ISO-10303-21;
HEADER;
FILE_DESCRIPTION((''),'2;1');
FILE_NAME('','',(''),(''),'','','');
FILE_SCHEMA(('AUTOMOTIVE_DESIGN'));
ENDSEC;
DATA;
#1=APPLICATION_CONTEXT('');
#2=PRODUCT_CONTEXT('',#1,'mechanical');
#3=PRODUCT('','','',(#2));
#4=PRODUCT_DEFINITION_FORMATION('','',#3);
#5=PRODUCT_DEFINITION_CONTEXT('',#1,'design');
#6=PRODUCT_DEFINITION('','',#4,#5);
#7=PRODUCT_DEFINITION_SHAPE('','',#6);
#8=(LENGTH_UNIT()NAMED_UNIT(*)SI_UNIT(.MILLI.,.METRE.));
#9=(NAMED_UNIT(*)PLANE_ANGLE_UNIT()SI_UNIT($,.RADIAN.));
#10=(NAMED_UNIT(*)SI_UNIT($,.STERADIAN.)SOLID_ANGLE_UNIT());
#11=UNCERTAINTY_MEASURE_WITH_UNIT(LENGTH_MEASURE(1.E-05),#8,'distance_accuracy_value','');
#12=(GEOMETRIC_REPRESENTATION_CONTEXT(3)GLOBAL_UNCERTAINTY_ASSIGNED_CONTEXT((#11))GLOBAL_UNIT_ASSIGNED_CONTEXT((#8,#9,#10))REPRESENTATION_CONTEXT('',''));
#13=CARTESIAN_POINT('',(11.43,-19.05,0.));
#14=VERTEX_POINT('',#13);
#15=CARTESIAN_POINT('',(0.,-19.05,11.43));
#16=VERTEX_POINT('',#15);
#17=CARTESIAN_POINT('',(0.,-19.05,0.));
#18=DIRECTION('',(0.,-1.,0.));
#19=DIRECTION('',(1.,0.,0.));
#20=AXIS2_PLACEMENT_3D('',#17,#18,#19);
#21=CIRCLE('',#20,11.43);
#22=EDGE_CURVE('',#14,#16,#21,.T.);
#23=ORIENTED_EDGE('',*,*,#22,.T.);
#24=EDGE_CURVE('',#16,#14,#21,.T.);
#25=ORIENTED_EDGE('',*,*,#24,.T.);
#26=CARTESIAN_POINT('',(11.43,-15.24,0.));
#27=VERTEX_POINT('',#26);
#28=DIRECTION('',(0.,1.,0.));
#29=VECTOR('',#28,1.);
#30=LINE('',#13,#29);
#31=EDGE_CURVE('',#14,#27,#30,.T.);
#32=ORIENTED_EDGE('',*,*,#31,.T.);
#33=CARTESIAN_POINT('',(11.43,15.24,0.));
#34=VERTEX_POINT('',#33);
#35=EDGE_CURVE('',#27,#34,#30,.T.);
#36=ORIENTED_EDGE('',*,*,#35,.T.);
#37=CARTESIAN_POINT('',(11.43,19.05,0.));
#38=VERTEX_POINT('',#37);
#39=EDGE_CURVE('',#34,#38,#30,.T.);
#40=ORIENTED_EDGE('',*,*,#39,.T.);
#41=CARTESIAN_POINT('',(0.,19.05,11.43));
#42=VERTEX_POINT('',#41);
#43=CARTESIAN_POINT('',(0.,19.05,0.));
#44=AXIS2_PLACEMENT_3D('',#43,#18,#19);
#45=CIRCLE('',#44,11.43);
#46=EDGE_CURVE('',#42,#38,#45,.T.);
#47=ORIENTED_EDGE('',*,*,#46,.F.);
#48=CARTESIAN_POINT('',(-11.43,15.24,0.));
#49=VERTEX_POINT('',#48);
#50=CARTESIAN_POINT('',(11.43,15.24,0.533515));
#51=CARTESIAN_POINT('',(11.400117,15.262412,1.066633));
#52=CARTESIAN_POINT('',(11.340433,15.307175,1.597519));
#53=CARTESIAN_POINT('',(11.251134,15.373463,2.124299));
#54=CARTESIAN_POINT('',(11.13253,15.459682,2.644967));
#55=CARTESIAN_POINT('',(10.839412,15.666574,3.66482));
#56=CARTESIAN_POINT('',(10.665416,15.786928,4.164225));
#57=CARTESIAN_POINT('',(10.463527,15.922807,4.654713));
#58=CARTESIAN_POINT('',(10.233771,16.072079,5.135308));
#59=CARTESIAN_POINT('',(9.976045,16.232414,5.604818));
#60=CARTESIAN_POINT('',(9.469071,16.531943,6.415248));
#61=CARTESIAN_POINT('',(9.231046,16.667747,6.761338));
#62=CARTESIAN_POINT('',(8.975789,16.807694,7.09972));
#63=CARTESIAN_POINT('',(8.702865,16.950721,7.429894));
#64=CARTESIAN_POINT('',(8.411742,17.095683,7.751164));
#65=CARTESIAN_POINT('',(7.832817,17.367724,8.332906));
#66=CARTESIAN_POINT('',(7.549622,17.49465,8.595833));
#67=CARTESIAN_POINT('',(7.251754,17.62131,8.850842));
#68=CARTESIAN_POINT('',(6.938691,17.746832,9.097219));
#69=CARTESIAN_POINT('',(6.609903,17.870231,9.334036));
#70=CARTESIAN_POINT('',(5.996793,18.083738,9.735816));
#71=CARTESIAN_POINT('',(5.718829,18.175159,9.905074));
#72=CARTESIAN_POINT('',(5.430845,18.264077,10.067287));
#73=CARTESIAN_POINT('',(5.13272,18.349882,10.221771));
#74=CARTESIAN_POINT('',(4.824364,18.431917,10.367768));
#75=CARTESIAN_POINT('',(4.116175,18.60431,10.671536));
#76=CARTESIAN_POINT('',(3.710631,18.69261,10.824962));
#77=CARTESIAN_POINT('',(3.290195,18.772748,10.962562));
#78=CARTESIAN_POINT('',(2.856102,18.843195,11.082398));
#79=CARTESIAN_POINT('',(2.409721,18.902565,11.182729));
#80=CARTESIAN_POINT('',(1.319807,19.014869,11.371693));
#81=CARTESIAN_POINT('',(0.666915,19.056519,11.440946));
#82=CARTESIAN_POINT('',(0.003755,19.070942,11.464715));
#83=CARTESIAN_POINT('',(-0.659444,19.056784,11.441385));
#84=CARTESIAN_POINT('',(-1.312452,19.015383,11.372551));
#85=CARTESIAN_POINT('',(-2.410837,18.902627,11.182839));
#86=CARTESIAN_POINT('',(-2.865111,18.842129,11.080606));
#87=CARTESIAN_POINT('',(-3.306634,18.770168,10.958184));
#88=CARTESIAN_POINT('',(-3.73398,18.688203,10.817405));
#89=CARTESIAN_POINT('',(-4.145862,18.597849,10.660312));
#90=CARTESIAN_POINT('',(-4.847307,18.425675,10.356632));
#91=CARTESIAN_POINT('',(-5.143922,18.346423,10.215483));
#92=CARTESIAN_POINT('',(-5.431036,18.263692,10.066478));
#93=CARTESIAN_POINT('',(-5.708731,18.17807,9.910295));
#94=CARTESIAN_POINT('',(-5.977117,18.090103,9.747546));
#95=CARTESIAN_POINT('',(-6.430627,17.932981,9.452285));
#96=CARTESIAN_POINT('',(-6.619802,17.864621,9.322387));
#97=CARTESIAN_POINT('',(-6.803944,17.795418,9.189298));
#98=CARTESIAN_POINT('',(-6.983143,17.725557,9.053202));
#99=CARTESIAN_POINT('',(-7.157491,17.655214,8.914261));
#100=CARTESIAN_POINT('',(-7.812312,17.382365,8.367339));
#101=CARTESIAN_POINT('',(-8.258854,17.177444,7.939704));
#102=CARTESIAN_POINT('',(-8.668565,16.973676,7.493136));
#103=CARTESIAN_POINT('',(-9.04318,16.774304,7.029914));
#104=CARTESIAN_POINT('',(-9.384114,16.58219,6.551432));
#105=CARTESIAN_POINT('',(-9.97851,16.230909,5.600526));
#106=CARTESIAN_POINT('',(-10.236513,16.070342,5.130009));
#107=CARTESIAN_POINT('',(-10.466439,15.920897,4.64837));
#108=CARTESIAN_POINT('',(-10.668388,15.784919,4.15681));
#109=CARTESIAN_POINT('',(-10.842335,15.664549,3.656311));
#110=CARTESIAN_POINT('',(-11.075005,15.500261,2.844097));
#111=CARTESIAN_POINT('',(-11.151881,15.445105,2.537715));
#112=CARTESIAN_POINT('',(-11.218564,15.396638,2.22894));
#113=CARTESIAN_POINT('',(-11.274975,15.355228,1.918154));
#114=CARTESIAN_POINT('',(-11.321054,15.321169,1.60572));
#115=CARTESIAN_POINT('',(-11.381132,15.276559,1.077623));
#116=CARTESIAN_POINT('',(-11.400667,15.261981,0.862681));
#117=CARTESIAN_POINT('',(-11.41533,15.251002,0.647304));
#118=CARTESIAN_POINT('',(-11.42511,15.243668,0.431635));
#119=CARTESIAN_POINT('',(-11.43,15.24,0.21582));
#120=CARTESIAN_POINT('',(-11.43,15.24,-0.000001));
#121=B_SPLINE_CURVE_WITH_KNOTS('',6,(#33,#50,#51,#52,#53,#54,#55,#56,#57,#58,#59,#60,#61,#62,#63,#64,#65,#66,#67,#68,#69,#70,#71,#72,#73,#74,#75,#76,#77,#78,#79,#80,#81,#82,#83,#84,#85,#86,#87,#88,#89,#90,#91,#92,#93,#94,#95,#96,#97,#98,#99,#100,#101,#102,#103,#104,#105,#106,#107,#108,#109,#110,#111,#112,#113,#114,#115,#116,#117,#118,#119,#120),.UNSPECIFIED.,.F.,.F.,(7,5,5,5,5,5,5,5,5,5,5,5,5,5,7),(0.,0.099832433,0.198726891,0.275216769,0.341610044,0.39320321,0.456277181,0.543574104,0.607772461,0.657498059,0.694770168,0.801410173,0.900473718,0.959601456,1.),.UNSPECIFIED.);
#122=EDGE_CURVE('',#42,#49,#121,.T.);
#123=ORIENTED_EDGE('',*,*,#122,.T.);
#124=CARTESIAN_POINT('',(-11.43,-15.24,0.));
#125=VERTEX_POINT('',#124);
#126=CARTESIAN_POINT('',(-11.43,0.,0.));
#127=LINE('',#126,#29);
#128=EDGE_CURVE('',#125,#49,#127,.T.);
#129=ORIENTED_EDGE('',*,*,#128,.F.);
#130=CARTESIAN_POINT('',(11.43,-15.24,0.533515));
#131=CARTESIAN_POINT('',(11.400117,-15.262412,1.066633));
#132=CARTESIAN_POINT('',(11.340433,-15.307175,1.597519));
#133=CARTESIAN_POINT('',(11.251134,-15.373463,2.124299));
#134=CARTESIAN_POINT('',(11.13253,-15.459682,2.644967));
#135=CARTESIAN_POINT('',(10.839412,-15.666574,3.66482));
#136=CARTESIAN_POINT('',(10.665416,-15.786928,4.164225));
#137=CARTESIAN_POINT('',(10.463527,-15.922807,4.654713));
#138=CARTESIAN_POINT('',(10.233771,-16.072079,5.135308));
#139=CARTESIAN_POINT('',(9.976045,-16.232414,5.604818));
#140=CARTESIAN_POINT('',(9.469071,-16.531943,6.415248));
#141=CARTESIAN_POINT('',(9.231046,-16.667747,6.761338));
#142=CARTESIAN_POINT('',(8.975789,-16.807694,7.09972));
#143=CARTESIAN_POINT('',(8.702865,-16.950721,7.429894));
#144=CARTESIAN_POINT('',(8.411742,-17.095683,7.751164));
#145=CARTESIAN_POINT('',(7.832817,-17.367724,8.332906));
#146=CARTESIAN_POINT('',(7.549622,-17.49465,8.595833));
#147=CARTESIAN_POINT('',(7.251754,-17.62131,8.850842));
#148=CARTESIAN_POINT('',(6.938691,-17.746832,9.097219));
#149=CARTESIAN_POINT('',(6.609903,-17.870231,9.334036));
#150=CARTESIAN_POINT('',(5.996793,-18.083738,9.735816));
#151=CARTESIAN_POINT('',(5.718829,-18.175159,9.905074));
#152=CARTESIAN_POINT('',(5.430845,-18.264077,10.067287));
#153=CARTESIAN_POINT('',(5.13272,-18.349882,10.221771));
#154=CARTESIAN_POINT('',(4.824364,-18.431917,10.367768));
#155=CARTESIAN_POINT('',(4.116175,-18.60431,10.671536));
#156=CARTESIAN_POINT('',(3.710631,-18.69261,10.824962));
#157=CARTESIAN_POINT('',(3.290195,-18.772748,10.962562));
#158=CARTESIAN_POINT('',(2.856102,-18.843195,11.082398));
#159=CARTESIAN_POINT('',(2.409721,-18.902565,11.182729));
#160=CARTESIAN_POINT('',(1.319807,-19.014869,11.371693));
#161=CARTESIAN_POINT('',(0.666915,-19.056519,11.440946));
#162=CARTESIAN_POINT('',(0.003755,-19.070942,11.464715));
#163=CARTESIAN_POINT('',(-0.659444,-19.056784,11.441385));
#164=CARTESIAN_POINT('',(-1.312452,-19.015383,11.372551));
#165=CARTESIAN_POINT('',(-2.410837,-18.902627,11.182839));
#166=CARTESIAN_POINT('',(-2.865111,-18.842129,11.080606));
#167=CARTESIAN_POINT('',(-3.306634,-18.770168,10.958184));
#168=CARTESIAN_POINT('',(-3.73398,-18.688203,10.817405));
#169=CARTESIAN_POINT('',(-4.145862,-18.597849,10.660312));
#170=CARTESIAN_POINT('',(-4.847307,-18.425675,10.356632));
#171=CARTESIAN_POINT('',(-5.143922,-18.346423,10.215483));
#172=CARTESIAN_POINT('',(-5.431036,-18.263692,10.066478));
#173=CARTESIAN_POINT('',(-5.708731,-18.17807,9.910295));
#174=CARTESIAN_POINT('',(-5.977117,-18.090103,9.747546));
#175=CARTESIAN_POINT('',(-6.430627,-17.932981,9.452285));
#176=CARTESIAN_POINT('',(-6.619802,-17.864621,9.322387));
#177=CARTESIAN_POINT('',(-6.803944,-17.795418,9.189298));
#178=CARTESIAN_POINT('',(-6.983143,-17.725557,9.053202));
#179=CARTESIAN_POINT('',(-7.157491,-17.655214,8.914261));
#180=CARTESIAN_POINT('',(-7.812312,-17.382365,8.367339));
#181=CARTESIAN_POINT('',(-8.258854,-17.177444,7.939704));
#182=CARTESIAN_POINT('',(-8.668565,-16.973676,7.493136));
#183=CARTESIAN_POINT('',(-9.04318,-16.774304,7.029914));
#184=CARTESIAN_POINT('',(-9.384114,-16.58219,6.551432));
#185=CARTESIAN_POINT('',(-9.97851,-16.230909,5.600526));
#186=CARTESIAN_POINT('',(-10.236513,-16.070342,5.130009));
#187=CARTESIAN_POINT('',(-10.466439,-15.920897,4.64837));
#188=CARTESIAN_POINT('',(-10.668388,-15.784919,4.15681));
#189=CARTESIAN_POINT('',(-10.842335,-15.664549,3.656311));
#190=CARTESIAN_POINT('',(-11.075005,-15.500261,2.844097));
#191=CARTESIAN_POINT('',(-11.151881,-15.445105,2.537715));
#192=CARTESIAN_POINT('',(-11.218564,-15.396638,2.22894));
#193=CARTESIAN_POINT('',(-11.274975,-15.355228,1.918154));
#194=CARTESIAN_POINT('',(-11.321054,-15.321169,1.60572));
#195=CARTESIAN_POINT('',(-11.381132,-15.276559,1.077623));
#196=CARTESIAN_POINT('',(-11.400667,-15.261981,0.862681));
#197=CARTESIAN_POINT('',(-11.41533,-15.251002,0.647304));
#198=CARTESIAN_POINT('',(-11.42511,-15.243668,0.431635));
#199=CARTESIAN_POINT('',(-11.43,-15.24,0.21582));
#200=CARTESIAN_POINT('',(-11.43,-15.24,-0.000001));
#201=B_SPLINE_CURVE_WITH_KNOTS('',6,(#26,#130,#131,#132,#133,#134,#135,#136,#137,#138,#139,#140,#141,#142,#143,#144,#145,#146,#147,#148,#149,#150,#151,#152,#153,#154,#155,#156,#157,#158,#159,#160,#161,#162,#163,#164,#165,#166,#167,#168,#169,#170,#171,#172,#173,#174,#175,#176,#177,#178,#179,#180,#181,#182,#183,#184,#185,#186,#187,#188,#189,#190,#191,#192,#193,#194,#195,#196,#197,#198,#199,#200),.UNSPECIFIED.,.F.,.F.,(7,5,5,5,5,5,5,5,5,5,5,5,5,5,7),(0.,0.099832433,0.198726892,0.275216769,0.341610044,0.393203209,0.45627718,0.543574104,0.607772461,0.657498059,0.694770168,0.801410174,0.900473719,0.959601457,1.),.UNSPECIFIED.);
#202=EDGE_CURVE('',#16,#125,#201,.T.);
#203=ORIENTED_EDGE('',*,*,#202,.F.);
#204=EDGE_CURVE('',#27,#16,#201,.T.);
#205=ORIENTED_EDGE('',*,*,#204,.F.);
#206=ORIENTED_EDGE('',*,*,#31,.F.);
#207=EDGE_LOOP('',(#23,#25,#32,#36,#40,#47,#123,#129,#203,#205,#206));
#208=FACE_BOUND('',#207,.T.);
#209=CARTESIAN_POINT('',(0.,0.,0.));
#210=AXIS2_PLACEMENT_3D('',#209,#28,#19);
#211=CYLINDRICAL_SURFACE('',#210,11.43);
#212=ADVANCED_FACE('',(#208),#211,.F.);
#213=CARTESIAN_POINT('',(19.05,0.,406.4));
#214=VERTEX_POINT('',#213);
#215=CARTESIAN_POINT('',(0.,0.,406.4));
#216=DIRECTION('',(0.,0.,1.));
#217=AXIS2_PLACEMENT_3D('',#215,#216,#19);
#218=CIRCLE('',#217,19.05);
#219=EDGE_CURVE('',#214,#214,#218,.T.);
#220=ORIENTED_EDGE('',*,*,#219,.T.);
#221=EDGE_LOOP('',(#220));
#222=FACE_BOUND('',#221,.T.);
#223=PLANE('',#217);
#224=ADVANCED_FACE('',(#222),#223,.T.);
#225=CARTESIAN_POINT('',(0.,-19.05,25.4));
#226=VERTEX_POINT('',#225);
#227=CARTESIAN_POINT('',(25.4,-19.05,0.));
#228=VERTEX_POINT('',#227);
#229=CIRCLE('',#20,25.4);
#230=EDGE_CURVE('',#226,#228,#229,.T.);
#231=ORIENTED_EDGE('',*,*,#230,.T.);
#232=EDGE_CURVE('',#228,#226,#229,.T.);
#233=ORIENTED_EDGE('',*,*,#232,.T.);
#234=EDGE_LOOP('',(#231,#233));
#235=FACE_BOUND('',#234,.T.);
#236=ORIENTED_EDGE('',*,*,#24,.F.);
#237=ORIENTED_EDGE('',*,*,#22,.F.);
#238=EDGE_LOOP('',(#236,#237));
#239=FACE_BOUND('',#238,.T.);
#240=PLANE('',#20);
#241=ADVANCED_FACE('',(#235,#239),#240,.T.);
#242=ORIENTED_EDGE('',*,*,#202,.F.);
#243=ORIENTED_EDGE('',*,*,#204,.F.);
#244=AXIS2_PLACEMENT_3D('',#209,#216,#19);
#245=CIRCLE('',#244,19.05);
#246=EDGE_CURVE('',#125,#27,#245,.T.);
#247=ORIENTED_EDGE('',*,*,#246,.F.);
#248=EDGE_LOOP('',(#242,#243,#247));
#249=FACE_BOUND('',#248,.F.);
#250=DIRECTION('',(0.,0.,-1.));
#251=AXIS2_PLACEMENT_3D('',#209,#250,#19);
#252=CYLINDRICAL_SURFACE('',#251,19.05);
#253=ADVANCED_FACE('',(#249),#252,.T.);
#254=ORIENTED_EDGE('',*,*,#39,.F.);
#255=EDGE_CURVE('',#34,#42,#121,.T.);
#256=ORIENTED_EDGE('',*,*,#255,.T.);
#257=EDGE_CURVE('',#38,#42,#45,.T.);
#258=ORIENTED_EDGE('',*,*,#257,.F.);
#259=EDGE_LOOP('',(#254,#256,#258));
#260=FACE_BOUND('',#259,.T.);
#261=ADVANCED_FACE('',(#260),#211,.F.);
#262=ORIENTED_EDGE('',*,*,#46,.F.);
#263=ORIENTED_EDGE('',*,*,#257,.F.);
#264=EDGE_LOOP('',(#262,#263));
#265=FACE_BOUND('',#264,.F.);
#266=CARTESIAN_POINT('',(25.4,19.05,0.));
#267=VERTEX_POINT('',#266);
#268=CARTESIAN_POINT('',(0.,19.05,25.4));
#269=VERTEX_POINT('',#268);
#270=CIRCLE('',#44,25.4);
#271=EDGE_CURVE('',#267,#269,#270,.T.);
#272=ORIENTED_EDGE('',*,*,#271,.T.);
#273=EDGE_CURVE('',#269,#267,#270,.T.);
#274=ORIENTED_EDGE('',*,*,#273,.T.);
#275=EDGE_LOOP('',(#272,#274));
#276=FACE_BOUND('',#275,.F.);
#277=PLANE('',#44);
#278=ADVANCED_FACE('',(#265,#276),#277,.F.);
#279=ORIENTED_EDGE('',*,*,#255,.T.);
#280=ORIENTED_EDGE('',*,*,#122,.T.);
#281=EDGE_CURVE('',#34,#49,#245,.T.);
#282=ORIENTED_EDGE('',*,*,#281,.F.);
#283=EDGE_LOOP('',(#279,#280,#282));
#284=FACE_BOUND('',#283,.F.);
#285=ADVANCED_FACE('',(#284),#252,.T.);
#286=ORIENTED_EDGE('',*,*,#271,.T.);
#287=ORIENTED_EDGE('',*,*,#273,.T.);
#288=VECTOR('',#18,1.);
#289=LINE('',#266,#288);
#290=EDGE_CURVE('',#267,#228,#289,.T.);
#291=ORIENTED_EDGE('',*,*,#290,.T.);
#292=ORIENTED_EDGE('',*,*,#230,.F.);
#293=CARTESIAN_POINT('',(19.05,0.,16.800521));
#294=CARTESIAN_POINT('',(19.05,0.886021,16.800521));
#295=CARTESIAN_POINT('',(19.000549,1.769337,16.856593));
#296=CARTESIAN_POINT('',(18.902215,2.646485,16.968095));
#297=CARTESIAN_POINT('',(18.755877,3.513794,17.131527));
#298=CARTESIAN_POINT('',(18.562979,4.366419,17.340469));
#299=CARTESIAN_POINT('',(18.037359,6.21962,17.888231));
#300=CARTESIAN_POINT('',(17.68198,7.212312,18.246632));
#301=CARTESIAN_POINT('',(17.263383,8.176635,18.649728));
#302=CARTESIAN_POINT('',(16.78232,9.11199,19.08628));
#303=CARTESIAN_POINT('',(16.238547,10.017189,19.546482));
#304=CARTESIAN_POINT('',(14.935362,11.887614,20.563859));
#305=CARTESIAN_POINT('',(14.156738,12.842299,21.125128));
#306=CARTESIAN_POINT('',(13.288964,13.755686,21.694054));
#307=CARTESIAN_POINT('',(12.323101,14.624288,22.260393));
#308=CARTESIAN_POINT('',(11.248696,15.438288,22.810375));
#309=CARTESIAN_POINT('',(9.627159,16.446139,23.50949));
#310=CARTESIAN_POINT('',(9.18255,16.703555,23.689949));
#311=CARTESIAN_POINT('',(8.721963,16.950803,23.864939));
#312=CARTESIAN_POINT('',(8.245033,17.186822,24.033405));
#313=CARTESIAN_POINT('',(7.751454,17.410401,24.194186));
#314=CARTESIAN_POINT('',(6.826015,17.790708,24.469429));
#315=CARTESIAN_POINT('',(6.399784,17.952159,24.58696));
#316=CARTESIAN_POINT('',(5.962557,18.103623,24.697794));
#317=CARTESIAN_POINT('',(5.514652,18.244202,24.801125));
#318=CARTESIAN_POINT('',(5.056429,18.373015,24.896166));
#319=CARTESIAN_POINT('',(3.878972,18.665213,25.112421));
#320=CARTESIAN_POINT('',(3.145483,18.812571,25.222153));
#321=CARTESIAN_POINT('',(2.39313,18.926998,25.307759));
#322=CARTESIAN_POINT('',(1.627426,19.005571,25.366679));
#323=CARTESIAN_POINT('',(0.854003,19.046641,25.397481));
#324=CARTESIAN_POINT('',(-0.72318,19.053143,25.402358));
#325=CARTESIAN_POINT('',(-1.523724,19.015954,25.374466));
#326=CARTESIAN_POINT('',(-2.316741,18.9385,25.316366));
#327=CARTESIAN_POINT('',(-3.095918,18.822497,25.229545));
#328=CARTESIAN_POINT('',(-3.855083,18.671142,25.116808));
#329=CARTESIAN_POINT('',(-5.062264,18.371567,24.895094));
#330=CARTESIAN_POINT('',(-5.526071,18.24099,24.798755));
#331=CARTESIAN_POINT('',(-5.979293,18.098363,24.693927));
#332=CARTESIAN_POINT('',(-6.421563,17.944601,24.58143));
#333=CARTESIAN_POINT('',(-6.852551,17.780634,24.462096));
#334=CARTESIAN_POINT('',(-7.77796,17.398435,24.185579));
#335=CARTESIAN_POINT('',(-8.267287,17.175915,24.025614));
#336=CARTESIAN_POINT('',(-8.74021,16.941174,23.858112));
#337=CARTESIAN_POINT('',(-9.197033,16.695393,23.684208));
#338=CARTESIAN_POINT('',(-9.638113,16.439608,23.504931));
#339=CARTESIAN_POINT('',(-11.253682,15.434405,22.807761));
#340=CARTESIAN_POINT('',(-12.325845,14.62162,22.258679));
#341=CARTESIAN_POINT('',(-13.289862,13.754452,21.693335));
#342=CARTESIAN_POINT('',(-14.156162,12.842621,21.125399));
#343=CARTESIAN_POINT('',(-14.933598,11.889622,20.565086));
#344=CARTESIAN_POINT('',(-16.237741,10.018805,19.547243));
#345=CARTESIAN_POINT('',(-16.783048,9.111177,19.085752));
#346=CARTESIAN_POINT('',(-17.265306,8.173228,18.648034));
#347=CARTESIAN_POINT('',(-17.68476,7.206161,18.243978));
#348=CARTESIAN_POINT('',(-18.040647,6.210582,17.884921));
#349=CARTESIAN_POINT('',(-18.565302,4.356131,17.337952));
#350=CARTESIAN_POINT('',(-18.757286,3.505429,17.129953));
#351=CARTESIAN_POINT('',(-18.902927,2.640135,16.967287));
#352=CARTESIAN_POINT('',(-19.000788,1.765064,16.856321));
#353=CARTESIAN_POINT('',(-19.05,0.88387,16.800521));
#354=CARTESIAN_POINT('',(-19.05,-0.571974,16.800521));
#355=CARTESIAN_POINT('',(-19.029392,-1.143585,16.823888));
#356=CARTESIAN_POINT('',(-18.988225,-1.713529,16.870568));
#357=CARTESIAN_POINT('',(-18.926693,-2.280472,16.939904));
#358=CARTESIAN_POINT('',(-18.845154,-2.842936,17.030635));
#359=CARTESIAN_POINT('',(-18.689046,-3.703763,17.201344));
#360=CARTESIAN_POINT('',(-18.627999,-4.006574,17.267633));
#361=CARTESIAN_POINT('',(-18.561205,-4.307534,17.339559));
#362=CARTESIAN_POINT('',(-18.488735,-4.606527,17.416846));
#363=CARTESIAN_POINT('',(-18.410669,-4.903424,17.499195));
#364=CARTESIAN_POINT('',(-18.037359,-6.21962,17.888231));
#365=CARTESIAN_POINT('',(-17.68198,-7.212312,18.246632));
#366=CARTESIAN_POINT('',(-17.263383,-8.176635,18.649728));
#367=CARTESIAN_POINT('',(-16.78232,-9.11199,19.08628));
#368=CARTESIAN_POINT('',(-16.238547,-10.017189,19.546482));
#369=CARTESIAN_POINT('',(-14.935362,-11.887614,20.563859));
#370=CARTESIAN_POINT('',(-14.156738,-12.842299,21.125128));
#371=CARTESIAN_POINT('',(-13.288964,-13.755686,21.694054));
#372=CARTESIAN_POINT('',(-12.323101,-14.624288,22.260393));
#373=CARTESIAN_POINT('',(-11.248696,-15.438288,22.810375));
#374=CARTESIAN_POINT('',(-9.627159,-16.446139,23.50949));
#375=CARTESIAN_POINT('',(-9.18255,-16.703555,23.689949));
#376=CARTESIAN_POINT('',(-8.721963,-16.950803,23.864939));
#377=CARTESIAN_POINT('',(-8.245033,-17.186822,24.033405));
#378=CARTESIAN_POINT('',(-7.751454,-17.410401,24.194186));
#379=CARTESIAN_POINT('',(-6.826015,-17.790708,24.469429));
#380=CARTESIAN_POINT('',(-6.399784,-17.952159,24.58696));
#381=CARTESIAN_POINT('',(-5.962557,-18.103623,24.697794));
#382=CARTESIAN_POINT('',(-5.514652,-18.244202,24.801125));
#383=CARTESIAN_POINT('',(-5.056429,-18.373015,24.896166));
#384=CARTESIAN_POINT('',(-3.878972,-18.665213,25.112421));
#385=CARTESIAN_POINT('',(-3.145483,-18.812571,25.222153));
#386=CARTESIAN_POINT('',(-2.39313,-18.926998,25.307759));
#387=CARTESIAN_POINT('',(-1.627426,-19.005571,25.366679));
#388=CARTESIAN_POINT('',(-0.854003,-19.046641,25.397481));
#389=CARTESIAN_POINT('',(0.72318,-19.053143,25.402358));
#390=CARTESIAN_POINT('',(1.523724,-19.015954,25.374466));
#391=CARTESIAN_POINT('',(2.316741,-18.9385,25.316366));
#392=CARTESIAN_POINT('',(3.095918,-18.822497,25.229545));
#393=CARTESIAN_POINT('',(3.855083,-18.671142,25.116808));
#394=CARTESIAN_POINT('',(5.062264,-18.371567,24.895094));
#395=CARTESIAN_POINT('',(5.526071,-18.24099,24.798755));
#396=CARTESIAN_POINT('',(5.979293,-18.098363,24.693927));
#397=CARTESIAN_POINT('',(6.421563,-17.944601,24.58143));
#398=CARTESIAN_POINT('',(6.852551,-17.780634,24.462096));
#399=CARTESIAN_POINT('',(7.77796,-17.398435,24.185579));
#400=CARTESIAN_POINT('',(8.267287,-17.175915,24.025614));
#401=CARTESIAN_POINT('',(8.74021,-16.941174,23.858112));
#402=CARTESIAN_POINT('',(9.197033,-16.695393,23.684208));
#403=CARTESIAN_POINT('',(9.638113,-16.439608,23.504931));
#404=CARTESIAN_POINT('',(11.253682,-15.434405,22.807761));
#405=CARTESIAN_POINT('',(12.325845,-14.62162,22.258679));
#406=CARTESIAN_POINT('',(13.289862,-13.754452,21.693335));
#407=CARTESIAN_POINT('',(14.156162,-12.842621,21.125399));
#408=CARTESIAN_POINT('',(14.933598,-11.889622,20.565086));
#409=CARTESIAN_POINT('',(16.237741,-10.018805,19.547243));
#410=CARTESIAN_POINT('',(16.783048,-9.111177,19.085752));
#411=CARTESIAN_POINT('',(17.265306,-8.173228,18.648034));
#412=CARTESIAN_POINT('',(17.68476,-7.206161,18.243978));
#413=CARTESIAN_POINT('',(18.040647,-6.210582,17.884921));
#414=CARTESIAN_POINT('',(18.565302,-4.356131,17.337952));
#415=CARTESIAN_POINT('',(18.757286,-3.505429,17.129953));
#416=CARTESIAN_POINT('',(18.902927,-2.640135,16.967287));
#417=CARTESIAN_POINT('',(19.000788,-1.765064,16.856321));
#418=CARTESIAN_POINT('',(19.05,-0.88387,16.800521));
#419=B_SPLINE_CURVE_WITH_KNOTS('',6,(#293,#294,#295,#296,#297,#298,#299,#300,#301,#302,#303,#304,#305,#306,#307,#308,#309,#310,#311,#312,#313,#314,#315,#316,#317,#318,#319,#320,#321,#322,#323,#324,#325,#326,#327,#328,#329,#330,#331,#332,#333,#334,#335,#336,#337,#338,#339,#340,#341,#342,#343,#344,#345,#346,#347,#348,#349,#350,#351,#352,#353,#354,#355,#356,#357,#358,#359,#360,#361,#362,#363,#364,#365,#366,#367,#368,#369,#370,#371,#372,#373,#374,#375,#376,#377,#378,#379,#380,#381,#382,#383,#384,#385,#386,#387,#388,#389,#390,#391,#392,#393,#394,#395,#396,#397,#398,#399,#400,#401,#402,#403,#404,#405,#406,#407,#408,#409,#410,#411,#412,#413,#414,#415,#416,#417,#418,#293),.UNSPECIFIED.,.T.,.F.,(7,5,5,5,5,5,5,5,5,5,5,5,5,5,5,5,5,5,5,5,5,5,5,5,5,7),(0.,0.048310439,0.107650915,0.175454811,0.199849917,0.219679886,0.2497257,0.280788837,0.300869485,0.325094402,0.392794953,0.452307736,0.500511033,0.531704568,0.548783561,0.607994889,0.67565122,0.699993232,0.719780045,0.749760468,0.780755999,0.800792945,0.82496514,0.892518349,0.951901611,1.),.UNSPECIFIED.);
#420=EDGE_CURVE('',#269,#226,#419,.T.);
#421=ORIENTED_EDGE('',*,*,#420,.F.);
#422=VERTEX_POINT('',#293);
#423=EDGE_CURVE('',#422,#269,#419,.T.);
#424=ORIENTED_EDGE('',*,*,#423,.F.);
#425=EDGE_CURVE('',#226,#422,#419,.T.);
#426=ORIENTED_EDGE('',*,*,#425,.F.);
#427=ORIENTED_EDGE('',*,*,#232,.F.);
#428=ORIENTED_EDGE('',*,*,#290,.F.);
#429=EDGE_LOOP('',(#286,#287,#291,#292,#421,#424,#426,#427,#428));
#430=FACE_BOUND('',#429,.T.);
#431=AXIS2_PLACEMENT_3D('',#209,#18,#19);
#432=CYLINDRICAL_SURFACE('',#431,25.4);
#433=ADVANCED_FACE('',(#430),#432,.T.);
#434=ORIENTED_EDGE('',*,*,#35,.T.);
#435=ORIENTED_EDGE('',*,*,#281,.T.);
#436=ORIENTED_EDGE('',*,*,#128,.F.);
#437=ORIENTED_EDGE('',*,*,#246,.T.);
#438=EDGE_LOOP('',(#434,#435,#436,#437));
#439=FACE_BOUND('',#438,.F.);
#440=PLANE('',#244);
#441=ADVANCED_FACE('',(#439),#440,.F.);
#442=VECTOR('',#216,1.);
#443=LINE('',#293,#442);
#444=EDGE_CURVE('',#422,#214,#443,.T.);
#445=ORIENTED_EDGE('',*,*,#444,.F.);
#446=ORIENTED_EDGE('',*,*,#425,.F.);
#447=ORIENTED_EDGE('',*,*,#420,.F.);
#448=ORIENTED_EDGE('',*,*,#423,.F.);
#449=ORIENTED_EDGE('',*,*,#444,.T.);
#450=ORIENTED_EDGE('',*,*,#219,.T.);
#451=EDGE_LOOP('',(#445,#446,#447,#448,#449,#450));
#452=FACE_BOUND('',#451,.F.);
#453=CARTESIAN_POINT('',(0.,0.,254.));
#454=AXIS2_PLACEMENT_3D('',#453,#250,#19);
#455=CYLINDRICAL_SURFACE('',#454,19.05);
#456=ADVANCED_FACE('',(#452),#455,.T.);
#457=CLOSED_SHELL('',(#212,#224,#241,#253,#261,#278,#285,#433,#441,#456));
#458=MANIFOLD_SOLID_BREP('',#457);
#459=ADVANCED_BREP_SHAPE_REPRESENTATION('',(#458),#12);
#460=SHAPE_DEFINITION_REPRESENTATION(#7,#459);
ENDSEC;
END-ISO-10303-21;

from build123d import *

# Parameters (mm, degrees)
F1_R     = 25.4
F1_R_2   = 11.43
F2_DEPTH = 19.05
F0_R     = 19.05
F3_DEPTH = 254
F4_R     = 38.1
F4_R_2   = 19.05
F5_DEPTH = 6.35
F6_DEPTH = 152.4
F7_DEPTH = 25.4


with BuildPart() as f2:
    # F1 (on Front) → F2 (new body, symmetric)
    with BuildSketch(Plane.XZ):
        Circle(F1_R)
        Circle(F1_R_2, mode=Mode.SUBTRACT)
    extrude(amount=F2_DEPTH, both=True)

    # F0 (on Top) → F3 (join)
    with BuildSketch(Plane.XY):
        Circle(F0_R)
    extrude(amount=F3_DEPTH)

    # F6 (add): a face of the model
    f6_faces = [f2.faces().sort_by_distance(p)[0] for p in [
        (0, 0, 254),
    ]]


with BuildPart() as f5:
    # F4 (on face) → F5 (new body)
    with BuildSketch(Plane.XY.offset(254)):
        Circle(F4_R)
        Circle(F4_R_2, mode=Mode.SUBTRACT)
    extrude(amount=F5_DEPTH)


with BuildPart() as f2_1:
    add(f2.part)

    add(f5.part)  # F6 merges F5
    extrude(f6_faces, amount=F6_DEPTH)

    # F7 (cut): a face of the model
    f7_faces = [f2_1.faces().sort_by_distance(p)[0] for p in [
        (-37.0223692655, 0, 260.35),
    ]]
    extrude(f7_faces, amount=-F7_DEPTH, mode=Mode.SUBTRACT)


solid = f2_1.part
